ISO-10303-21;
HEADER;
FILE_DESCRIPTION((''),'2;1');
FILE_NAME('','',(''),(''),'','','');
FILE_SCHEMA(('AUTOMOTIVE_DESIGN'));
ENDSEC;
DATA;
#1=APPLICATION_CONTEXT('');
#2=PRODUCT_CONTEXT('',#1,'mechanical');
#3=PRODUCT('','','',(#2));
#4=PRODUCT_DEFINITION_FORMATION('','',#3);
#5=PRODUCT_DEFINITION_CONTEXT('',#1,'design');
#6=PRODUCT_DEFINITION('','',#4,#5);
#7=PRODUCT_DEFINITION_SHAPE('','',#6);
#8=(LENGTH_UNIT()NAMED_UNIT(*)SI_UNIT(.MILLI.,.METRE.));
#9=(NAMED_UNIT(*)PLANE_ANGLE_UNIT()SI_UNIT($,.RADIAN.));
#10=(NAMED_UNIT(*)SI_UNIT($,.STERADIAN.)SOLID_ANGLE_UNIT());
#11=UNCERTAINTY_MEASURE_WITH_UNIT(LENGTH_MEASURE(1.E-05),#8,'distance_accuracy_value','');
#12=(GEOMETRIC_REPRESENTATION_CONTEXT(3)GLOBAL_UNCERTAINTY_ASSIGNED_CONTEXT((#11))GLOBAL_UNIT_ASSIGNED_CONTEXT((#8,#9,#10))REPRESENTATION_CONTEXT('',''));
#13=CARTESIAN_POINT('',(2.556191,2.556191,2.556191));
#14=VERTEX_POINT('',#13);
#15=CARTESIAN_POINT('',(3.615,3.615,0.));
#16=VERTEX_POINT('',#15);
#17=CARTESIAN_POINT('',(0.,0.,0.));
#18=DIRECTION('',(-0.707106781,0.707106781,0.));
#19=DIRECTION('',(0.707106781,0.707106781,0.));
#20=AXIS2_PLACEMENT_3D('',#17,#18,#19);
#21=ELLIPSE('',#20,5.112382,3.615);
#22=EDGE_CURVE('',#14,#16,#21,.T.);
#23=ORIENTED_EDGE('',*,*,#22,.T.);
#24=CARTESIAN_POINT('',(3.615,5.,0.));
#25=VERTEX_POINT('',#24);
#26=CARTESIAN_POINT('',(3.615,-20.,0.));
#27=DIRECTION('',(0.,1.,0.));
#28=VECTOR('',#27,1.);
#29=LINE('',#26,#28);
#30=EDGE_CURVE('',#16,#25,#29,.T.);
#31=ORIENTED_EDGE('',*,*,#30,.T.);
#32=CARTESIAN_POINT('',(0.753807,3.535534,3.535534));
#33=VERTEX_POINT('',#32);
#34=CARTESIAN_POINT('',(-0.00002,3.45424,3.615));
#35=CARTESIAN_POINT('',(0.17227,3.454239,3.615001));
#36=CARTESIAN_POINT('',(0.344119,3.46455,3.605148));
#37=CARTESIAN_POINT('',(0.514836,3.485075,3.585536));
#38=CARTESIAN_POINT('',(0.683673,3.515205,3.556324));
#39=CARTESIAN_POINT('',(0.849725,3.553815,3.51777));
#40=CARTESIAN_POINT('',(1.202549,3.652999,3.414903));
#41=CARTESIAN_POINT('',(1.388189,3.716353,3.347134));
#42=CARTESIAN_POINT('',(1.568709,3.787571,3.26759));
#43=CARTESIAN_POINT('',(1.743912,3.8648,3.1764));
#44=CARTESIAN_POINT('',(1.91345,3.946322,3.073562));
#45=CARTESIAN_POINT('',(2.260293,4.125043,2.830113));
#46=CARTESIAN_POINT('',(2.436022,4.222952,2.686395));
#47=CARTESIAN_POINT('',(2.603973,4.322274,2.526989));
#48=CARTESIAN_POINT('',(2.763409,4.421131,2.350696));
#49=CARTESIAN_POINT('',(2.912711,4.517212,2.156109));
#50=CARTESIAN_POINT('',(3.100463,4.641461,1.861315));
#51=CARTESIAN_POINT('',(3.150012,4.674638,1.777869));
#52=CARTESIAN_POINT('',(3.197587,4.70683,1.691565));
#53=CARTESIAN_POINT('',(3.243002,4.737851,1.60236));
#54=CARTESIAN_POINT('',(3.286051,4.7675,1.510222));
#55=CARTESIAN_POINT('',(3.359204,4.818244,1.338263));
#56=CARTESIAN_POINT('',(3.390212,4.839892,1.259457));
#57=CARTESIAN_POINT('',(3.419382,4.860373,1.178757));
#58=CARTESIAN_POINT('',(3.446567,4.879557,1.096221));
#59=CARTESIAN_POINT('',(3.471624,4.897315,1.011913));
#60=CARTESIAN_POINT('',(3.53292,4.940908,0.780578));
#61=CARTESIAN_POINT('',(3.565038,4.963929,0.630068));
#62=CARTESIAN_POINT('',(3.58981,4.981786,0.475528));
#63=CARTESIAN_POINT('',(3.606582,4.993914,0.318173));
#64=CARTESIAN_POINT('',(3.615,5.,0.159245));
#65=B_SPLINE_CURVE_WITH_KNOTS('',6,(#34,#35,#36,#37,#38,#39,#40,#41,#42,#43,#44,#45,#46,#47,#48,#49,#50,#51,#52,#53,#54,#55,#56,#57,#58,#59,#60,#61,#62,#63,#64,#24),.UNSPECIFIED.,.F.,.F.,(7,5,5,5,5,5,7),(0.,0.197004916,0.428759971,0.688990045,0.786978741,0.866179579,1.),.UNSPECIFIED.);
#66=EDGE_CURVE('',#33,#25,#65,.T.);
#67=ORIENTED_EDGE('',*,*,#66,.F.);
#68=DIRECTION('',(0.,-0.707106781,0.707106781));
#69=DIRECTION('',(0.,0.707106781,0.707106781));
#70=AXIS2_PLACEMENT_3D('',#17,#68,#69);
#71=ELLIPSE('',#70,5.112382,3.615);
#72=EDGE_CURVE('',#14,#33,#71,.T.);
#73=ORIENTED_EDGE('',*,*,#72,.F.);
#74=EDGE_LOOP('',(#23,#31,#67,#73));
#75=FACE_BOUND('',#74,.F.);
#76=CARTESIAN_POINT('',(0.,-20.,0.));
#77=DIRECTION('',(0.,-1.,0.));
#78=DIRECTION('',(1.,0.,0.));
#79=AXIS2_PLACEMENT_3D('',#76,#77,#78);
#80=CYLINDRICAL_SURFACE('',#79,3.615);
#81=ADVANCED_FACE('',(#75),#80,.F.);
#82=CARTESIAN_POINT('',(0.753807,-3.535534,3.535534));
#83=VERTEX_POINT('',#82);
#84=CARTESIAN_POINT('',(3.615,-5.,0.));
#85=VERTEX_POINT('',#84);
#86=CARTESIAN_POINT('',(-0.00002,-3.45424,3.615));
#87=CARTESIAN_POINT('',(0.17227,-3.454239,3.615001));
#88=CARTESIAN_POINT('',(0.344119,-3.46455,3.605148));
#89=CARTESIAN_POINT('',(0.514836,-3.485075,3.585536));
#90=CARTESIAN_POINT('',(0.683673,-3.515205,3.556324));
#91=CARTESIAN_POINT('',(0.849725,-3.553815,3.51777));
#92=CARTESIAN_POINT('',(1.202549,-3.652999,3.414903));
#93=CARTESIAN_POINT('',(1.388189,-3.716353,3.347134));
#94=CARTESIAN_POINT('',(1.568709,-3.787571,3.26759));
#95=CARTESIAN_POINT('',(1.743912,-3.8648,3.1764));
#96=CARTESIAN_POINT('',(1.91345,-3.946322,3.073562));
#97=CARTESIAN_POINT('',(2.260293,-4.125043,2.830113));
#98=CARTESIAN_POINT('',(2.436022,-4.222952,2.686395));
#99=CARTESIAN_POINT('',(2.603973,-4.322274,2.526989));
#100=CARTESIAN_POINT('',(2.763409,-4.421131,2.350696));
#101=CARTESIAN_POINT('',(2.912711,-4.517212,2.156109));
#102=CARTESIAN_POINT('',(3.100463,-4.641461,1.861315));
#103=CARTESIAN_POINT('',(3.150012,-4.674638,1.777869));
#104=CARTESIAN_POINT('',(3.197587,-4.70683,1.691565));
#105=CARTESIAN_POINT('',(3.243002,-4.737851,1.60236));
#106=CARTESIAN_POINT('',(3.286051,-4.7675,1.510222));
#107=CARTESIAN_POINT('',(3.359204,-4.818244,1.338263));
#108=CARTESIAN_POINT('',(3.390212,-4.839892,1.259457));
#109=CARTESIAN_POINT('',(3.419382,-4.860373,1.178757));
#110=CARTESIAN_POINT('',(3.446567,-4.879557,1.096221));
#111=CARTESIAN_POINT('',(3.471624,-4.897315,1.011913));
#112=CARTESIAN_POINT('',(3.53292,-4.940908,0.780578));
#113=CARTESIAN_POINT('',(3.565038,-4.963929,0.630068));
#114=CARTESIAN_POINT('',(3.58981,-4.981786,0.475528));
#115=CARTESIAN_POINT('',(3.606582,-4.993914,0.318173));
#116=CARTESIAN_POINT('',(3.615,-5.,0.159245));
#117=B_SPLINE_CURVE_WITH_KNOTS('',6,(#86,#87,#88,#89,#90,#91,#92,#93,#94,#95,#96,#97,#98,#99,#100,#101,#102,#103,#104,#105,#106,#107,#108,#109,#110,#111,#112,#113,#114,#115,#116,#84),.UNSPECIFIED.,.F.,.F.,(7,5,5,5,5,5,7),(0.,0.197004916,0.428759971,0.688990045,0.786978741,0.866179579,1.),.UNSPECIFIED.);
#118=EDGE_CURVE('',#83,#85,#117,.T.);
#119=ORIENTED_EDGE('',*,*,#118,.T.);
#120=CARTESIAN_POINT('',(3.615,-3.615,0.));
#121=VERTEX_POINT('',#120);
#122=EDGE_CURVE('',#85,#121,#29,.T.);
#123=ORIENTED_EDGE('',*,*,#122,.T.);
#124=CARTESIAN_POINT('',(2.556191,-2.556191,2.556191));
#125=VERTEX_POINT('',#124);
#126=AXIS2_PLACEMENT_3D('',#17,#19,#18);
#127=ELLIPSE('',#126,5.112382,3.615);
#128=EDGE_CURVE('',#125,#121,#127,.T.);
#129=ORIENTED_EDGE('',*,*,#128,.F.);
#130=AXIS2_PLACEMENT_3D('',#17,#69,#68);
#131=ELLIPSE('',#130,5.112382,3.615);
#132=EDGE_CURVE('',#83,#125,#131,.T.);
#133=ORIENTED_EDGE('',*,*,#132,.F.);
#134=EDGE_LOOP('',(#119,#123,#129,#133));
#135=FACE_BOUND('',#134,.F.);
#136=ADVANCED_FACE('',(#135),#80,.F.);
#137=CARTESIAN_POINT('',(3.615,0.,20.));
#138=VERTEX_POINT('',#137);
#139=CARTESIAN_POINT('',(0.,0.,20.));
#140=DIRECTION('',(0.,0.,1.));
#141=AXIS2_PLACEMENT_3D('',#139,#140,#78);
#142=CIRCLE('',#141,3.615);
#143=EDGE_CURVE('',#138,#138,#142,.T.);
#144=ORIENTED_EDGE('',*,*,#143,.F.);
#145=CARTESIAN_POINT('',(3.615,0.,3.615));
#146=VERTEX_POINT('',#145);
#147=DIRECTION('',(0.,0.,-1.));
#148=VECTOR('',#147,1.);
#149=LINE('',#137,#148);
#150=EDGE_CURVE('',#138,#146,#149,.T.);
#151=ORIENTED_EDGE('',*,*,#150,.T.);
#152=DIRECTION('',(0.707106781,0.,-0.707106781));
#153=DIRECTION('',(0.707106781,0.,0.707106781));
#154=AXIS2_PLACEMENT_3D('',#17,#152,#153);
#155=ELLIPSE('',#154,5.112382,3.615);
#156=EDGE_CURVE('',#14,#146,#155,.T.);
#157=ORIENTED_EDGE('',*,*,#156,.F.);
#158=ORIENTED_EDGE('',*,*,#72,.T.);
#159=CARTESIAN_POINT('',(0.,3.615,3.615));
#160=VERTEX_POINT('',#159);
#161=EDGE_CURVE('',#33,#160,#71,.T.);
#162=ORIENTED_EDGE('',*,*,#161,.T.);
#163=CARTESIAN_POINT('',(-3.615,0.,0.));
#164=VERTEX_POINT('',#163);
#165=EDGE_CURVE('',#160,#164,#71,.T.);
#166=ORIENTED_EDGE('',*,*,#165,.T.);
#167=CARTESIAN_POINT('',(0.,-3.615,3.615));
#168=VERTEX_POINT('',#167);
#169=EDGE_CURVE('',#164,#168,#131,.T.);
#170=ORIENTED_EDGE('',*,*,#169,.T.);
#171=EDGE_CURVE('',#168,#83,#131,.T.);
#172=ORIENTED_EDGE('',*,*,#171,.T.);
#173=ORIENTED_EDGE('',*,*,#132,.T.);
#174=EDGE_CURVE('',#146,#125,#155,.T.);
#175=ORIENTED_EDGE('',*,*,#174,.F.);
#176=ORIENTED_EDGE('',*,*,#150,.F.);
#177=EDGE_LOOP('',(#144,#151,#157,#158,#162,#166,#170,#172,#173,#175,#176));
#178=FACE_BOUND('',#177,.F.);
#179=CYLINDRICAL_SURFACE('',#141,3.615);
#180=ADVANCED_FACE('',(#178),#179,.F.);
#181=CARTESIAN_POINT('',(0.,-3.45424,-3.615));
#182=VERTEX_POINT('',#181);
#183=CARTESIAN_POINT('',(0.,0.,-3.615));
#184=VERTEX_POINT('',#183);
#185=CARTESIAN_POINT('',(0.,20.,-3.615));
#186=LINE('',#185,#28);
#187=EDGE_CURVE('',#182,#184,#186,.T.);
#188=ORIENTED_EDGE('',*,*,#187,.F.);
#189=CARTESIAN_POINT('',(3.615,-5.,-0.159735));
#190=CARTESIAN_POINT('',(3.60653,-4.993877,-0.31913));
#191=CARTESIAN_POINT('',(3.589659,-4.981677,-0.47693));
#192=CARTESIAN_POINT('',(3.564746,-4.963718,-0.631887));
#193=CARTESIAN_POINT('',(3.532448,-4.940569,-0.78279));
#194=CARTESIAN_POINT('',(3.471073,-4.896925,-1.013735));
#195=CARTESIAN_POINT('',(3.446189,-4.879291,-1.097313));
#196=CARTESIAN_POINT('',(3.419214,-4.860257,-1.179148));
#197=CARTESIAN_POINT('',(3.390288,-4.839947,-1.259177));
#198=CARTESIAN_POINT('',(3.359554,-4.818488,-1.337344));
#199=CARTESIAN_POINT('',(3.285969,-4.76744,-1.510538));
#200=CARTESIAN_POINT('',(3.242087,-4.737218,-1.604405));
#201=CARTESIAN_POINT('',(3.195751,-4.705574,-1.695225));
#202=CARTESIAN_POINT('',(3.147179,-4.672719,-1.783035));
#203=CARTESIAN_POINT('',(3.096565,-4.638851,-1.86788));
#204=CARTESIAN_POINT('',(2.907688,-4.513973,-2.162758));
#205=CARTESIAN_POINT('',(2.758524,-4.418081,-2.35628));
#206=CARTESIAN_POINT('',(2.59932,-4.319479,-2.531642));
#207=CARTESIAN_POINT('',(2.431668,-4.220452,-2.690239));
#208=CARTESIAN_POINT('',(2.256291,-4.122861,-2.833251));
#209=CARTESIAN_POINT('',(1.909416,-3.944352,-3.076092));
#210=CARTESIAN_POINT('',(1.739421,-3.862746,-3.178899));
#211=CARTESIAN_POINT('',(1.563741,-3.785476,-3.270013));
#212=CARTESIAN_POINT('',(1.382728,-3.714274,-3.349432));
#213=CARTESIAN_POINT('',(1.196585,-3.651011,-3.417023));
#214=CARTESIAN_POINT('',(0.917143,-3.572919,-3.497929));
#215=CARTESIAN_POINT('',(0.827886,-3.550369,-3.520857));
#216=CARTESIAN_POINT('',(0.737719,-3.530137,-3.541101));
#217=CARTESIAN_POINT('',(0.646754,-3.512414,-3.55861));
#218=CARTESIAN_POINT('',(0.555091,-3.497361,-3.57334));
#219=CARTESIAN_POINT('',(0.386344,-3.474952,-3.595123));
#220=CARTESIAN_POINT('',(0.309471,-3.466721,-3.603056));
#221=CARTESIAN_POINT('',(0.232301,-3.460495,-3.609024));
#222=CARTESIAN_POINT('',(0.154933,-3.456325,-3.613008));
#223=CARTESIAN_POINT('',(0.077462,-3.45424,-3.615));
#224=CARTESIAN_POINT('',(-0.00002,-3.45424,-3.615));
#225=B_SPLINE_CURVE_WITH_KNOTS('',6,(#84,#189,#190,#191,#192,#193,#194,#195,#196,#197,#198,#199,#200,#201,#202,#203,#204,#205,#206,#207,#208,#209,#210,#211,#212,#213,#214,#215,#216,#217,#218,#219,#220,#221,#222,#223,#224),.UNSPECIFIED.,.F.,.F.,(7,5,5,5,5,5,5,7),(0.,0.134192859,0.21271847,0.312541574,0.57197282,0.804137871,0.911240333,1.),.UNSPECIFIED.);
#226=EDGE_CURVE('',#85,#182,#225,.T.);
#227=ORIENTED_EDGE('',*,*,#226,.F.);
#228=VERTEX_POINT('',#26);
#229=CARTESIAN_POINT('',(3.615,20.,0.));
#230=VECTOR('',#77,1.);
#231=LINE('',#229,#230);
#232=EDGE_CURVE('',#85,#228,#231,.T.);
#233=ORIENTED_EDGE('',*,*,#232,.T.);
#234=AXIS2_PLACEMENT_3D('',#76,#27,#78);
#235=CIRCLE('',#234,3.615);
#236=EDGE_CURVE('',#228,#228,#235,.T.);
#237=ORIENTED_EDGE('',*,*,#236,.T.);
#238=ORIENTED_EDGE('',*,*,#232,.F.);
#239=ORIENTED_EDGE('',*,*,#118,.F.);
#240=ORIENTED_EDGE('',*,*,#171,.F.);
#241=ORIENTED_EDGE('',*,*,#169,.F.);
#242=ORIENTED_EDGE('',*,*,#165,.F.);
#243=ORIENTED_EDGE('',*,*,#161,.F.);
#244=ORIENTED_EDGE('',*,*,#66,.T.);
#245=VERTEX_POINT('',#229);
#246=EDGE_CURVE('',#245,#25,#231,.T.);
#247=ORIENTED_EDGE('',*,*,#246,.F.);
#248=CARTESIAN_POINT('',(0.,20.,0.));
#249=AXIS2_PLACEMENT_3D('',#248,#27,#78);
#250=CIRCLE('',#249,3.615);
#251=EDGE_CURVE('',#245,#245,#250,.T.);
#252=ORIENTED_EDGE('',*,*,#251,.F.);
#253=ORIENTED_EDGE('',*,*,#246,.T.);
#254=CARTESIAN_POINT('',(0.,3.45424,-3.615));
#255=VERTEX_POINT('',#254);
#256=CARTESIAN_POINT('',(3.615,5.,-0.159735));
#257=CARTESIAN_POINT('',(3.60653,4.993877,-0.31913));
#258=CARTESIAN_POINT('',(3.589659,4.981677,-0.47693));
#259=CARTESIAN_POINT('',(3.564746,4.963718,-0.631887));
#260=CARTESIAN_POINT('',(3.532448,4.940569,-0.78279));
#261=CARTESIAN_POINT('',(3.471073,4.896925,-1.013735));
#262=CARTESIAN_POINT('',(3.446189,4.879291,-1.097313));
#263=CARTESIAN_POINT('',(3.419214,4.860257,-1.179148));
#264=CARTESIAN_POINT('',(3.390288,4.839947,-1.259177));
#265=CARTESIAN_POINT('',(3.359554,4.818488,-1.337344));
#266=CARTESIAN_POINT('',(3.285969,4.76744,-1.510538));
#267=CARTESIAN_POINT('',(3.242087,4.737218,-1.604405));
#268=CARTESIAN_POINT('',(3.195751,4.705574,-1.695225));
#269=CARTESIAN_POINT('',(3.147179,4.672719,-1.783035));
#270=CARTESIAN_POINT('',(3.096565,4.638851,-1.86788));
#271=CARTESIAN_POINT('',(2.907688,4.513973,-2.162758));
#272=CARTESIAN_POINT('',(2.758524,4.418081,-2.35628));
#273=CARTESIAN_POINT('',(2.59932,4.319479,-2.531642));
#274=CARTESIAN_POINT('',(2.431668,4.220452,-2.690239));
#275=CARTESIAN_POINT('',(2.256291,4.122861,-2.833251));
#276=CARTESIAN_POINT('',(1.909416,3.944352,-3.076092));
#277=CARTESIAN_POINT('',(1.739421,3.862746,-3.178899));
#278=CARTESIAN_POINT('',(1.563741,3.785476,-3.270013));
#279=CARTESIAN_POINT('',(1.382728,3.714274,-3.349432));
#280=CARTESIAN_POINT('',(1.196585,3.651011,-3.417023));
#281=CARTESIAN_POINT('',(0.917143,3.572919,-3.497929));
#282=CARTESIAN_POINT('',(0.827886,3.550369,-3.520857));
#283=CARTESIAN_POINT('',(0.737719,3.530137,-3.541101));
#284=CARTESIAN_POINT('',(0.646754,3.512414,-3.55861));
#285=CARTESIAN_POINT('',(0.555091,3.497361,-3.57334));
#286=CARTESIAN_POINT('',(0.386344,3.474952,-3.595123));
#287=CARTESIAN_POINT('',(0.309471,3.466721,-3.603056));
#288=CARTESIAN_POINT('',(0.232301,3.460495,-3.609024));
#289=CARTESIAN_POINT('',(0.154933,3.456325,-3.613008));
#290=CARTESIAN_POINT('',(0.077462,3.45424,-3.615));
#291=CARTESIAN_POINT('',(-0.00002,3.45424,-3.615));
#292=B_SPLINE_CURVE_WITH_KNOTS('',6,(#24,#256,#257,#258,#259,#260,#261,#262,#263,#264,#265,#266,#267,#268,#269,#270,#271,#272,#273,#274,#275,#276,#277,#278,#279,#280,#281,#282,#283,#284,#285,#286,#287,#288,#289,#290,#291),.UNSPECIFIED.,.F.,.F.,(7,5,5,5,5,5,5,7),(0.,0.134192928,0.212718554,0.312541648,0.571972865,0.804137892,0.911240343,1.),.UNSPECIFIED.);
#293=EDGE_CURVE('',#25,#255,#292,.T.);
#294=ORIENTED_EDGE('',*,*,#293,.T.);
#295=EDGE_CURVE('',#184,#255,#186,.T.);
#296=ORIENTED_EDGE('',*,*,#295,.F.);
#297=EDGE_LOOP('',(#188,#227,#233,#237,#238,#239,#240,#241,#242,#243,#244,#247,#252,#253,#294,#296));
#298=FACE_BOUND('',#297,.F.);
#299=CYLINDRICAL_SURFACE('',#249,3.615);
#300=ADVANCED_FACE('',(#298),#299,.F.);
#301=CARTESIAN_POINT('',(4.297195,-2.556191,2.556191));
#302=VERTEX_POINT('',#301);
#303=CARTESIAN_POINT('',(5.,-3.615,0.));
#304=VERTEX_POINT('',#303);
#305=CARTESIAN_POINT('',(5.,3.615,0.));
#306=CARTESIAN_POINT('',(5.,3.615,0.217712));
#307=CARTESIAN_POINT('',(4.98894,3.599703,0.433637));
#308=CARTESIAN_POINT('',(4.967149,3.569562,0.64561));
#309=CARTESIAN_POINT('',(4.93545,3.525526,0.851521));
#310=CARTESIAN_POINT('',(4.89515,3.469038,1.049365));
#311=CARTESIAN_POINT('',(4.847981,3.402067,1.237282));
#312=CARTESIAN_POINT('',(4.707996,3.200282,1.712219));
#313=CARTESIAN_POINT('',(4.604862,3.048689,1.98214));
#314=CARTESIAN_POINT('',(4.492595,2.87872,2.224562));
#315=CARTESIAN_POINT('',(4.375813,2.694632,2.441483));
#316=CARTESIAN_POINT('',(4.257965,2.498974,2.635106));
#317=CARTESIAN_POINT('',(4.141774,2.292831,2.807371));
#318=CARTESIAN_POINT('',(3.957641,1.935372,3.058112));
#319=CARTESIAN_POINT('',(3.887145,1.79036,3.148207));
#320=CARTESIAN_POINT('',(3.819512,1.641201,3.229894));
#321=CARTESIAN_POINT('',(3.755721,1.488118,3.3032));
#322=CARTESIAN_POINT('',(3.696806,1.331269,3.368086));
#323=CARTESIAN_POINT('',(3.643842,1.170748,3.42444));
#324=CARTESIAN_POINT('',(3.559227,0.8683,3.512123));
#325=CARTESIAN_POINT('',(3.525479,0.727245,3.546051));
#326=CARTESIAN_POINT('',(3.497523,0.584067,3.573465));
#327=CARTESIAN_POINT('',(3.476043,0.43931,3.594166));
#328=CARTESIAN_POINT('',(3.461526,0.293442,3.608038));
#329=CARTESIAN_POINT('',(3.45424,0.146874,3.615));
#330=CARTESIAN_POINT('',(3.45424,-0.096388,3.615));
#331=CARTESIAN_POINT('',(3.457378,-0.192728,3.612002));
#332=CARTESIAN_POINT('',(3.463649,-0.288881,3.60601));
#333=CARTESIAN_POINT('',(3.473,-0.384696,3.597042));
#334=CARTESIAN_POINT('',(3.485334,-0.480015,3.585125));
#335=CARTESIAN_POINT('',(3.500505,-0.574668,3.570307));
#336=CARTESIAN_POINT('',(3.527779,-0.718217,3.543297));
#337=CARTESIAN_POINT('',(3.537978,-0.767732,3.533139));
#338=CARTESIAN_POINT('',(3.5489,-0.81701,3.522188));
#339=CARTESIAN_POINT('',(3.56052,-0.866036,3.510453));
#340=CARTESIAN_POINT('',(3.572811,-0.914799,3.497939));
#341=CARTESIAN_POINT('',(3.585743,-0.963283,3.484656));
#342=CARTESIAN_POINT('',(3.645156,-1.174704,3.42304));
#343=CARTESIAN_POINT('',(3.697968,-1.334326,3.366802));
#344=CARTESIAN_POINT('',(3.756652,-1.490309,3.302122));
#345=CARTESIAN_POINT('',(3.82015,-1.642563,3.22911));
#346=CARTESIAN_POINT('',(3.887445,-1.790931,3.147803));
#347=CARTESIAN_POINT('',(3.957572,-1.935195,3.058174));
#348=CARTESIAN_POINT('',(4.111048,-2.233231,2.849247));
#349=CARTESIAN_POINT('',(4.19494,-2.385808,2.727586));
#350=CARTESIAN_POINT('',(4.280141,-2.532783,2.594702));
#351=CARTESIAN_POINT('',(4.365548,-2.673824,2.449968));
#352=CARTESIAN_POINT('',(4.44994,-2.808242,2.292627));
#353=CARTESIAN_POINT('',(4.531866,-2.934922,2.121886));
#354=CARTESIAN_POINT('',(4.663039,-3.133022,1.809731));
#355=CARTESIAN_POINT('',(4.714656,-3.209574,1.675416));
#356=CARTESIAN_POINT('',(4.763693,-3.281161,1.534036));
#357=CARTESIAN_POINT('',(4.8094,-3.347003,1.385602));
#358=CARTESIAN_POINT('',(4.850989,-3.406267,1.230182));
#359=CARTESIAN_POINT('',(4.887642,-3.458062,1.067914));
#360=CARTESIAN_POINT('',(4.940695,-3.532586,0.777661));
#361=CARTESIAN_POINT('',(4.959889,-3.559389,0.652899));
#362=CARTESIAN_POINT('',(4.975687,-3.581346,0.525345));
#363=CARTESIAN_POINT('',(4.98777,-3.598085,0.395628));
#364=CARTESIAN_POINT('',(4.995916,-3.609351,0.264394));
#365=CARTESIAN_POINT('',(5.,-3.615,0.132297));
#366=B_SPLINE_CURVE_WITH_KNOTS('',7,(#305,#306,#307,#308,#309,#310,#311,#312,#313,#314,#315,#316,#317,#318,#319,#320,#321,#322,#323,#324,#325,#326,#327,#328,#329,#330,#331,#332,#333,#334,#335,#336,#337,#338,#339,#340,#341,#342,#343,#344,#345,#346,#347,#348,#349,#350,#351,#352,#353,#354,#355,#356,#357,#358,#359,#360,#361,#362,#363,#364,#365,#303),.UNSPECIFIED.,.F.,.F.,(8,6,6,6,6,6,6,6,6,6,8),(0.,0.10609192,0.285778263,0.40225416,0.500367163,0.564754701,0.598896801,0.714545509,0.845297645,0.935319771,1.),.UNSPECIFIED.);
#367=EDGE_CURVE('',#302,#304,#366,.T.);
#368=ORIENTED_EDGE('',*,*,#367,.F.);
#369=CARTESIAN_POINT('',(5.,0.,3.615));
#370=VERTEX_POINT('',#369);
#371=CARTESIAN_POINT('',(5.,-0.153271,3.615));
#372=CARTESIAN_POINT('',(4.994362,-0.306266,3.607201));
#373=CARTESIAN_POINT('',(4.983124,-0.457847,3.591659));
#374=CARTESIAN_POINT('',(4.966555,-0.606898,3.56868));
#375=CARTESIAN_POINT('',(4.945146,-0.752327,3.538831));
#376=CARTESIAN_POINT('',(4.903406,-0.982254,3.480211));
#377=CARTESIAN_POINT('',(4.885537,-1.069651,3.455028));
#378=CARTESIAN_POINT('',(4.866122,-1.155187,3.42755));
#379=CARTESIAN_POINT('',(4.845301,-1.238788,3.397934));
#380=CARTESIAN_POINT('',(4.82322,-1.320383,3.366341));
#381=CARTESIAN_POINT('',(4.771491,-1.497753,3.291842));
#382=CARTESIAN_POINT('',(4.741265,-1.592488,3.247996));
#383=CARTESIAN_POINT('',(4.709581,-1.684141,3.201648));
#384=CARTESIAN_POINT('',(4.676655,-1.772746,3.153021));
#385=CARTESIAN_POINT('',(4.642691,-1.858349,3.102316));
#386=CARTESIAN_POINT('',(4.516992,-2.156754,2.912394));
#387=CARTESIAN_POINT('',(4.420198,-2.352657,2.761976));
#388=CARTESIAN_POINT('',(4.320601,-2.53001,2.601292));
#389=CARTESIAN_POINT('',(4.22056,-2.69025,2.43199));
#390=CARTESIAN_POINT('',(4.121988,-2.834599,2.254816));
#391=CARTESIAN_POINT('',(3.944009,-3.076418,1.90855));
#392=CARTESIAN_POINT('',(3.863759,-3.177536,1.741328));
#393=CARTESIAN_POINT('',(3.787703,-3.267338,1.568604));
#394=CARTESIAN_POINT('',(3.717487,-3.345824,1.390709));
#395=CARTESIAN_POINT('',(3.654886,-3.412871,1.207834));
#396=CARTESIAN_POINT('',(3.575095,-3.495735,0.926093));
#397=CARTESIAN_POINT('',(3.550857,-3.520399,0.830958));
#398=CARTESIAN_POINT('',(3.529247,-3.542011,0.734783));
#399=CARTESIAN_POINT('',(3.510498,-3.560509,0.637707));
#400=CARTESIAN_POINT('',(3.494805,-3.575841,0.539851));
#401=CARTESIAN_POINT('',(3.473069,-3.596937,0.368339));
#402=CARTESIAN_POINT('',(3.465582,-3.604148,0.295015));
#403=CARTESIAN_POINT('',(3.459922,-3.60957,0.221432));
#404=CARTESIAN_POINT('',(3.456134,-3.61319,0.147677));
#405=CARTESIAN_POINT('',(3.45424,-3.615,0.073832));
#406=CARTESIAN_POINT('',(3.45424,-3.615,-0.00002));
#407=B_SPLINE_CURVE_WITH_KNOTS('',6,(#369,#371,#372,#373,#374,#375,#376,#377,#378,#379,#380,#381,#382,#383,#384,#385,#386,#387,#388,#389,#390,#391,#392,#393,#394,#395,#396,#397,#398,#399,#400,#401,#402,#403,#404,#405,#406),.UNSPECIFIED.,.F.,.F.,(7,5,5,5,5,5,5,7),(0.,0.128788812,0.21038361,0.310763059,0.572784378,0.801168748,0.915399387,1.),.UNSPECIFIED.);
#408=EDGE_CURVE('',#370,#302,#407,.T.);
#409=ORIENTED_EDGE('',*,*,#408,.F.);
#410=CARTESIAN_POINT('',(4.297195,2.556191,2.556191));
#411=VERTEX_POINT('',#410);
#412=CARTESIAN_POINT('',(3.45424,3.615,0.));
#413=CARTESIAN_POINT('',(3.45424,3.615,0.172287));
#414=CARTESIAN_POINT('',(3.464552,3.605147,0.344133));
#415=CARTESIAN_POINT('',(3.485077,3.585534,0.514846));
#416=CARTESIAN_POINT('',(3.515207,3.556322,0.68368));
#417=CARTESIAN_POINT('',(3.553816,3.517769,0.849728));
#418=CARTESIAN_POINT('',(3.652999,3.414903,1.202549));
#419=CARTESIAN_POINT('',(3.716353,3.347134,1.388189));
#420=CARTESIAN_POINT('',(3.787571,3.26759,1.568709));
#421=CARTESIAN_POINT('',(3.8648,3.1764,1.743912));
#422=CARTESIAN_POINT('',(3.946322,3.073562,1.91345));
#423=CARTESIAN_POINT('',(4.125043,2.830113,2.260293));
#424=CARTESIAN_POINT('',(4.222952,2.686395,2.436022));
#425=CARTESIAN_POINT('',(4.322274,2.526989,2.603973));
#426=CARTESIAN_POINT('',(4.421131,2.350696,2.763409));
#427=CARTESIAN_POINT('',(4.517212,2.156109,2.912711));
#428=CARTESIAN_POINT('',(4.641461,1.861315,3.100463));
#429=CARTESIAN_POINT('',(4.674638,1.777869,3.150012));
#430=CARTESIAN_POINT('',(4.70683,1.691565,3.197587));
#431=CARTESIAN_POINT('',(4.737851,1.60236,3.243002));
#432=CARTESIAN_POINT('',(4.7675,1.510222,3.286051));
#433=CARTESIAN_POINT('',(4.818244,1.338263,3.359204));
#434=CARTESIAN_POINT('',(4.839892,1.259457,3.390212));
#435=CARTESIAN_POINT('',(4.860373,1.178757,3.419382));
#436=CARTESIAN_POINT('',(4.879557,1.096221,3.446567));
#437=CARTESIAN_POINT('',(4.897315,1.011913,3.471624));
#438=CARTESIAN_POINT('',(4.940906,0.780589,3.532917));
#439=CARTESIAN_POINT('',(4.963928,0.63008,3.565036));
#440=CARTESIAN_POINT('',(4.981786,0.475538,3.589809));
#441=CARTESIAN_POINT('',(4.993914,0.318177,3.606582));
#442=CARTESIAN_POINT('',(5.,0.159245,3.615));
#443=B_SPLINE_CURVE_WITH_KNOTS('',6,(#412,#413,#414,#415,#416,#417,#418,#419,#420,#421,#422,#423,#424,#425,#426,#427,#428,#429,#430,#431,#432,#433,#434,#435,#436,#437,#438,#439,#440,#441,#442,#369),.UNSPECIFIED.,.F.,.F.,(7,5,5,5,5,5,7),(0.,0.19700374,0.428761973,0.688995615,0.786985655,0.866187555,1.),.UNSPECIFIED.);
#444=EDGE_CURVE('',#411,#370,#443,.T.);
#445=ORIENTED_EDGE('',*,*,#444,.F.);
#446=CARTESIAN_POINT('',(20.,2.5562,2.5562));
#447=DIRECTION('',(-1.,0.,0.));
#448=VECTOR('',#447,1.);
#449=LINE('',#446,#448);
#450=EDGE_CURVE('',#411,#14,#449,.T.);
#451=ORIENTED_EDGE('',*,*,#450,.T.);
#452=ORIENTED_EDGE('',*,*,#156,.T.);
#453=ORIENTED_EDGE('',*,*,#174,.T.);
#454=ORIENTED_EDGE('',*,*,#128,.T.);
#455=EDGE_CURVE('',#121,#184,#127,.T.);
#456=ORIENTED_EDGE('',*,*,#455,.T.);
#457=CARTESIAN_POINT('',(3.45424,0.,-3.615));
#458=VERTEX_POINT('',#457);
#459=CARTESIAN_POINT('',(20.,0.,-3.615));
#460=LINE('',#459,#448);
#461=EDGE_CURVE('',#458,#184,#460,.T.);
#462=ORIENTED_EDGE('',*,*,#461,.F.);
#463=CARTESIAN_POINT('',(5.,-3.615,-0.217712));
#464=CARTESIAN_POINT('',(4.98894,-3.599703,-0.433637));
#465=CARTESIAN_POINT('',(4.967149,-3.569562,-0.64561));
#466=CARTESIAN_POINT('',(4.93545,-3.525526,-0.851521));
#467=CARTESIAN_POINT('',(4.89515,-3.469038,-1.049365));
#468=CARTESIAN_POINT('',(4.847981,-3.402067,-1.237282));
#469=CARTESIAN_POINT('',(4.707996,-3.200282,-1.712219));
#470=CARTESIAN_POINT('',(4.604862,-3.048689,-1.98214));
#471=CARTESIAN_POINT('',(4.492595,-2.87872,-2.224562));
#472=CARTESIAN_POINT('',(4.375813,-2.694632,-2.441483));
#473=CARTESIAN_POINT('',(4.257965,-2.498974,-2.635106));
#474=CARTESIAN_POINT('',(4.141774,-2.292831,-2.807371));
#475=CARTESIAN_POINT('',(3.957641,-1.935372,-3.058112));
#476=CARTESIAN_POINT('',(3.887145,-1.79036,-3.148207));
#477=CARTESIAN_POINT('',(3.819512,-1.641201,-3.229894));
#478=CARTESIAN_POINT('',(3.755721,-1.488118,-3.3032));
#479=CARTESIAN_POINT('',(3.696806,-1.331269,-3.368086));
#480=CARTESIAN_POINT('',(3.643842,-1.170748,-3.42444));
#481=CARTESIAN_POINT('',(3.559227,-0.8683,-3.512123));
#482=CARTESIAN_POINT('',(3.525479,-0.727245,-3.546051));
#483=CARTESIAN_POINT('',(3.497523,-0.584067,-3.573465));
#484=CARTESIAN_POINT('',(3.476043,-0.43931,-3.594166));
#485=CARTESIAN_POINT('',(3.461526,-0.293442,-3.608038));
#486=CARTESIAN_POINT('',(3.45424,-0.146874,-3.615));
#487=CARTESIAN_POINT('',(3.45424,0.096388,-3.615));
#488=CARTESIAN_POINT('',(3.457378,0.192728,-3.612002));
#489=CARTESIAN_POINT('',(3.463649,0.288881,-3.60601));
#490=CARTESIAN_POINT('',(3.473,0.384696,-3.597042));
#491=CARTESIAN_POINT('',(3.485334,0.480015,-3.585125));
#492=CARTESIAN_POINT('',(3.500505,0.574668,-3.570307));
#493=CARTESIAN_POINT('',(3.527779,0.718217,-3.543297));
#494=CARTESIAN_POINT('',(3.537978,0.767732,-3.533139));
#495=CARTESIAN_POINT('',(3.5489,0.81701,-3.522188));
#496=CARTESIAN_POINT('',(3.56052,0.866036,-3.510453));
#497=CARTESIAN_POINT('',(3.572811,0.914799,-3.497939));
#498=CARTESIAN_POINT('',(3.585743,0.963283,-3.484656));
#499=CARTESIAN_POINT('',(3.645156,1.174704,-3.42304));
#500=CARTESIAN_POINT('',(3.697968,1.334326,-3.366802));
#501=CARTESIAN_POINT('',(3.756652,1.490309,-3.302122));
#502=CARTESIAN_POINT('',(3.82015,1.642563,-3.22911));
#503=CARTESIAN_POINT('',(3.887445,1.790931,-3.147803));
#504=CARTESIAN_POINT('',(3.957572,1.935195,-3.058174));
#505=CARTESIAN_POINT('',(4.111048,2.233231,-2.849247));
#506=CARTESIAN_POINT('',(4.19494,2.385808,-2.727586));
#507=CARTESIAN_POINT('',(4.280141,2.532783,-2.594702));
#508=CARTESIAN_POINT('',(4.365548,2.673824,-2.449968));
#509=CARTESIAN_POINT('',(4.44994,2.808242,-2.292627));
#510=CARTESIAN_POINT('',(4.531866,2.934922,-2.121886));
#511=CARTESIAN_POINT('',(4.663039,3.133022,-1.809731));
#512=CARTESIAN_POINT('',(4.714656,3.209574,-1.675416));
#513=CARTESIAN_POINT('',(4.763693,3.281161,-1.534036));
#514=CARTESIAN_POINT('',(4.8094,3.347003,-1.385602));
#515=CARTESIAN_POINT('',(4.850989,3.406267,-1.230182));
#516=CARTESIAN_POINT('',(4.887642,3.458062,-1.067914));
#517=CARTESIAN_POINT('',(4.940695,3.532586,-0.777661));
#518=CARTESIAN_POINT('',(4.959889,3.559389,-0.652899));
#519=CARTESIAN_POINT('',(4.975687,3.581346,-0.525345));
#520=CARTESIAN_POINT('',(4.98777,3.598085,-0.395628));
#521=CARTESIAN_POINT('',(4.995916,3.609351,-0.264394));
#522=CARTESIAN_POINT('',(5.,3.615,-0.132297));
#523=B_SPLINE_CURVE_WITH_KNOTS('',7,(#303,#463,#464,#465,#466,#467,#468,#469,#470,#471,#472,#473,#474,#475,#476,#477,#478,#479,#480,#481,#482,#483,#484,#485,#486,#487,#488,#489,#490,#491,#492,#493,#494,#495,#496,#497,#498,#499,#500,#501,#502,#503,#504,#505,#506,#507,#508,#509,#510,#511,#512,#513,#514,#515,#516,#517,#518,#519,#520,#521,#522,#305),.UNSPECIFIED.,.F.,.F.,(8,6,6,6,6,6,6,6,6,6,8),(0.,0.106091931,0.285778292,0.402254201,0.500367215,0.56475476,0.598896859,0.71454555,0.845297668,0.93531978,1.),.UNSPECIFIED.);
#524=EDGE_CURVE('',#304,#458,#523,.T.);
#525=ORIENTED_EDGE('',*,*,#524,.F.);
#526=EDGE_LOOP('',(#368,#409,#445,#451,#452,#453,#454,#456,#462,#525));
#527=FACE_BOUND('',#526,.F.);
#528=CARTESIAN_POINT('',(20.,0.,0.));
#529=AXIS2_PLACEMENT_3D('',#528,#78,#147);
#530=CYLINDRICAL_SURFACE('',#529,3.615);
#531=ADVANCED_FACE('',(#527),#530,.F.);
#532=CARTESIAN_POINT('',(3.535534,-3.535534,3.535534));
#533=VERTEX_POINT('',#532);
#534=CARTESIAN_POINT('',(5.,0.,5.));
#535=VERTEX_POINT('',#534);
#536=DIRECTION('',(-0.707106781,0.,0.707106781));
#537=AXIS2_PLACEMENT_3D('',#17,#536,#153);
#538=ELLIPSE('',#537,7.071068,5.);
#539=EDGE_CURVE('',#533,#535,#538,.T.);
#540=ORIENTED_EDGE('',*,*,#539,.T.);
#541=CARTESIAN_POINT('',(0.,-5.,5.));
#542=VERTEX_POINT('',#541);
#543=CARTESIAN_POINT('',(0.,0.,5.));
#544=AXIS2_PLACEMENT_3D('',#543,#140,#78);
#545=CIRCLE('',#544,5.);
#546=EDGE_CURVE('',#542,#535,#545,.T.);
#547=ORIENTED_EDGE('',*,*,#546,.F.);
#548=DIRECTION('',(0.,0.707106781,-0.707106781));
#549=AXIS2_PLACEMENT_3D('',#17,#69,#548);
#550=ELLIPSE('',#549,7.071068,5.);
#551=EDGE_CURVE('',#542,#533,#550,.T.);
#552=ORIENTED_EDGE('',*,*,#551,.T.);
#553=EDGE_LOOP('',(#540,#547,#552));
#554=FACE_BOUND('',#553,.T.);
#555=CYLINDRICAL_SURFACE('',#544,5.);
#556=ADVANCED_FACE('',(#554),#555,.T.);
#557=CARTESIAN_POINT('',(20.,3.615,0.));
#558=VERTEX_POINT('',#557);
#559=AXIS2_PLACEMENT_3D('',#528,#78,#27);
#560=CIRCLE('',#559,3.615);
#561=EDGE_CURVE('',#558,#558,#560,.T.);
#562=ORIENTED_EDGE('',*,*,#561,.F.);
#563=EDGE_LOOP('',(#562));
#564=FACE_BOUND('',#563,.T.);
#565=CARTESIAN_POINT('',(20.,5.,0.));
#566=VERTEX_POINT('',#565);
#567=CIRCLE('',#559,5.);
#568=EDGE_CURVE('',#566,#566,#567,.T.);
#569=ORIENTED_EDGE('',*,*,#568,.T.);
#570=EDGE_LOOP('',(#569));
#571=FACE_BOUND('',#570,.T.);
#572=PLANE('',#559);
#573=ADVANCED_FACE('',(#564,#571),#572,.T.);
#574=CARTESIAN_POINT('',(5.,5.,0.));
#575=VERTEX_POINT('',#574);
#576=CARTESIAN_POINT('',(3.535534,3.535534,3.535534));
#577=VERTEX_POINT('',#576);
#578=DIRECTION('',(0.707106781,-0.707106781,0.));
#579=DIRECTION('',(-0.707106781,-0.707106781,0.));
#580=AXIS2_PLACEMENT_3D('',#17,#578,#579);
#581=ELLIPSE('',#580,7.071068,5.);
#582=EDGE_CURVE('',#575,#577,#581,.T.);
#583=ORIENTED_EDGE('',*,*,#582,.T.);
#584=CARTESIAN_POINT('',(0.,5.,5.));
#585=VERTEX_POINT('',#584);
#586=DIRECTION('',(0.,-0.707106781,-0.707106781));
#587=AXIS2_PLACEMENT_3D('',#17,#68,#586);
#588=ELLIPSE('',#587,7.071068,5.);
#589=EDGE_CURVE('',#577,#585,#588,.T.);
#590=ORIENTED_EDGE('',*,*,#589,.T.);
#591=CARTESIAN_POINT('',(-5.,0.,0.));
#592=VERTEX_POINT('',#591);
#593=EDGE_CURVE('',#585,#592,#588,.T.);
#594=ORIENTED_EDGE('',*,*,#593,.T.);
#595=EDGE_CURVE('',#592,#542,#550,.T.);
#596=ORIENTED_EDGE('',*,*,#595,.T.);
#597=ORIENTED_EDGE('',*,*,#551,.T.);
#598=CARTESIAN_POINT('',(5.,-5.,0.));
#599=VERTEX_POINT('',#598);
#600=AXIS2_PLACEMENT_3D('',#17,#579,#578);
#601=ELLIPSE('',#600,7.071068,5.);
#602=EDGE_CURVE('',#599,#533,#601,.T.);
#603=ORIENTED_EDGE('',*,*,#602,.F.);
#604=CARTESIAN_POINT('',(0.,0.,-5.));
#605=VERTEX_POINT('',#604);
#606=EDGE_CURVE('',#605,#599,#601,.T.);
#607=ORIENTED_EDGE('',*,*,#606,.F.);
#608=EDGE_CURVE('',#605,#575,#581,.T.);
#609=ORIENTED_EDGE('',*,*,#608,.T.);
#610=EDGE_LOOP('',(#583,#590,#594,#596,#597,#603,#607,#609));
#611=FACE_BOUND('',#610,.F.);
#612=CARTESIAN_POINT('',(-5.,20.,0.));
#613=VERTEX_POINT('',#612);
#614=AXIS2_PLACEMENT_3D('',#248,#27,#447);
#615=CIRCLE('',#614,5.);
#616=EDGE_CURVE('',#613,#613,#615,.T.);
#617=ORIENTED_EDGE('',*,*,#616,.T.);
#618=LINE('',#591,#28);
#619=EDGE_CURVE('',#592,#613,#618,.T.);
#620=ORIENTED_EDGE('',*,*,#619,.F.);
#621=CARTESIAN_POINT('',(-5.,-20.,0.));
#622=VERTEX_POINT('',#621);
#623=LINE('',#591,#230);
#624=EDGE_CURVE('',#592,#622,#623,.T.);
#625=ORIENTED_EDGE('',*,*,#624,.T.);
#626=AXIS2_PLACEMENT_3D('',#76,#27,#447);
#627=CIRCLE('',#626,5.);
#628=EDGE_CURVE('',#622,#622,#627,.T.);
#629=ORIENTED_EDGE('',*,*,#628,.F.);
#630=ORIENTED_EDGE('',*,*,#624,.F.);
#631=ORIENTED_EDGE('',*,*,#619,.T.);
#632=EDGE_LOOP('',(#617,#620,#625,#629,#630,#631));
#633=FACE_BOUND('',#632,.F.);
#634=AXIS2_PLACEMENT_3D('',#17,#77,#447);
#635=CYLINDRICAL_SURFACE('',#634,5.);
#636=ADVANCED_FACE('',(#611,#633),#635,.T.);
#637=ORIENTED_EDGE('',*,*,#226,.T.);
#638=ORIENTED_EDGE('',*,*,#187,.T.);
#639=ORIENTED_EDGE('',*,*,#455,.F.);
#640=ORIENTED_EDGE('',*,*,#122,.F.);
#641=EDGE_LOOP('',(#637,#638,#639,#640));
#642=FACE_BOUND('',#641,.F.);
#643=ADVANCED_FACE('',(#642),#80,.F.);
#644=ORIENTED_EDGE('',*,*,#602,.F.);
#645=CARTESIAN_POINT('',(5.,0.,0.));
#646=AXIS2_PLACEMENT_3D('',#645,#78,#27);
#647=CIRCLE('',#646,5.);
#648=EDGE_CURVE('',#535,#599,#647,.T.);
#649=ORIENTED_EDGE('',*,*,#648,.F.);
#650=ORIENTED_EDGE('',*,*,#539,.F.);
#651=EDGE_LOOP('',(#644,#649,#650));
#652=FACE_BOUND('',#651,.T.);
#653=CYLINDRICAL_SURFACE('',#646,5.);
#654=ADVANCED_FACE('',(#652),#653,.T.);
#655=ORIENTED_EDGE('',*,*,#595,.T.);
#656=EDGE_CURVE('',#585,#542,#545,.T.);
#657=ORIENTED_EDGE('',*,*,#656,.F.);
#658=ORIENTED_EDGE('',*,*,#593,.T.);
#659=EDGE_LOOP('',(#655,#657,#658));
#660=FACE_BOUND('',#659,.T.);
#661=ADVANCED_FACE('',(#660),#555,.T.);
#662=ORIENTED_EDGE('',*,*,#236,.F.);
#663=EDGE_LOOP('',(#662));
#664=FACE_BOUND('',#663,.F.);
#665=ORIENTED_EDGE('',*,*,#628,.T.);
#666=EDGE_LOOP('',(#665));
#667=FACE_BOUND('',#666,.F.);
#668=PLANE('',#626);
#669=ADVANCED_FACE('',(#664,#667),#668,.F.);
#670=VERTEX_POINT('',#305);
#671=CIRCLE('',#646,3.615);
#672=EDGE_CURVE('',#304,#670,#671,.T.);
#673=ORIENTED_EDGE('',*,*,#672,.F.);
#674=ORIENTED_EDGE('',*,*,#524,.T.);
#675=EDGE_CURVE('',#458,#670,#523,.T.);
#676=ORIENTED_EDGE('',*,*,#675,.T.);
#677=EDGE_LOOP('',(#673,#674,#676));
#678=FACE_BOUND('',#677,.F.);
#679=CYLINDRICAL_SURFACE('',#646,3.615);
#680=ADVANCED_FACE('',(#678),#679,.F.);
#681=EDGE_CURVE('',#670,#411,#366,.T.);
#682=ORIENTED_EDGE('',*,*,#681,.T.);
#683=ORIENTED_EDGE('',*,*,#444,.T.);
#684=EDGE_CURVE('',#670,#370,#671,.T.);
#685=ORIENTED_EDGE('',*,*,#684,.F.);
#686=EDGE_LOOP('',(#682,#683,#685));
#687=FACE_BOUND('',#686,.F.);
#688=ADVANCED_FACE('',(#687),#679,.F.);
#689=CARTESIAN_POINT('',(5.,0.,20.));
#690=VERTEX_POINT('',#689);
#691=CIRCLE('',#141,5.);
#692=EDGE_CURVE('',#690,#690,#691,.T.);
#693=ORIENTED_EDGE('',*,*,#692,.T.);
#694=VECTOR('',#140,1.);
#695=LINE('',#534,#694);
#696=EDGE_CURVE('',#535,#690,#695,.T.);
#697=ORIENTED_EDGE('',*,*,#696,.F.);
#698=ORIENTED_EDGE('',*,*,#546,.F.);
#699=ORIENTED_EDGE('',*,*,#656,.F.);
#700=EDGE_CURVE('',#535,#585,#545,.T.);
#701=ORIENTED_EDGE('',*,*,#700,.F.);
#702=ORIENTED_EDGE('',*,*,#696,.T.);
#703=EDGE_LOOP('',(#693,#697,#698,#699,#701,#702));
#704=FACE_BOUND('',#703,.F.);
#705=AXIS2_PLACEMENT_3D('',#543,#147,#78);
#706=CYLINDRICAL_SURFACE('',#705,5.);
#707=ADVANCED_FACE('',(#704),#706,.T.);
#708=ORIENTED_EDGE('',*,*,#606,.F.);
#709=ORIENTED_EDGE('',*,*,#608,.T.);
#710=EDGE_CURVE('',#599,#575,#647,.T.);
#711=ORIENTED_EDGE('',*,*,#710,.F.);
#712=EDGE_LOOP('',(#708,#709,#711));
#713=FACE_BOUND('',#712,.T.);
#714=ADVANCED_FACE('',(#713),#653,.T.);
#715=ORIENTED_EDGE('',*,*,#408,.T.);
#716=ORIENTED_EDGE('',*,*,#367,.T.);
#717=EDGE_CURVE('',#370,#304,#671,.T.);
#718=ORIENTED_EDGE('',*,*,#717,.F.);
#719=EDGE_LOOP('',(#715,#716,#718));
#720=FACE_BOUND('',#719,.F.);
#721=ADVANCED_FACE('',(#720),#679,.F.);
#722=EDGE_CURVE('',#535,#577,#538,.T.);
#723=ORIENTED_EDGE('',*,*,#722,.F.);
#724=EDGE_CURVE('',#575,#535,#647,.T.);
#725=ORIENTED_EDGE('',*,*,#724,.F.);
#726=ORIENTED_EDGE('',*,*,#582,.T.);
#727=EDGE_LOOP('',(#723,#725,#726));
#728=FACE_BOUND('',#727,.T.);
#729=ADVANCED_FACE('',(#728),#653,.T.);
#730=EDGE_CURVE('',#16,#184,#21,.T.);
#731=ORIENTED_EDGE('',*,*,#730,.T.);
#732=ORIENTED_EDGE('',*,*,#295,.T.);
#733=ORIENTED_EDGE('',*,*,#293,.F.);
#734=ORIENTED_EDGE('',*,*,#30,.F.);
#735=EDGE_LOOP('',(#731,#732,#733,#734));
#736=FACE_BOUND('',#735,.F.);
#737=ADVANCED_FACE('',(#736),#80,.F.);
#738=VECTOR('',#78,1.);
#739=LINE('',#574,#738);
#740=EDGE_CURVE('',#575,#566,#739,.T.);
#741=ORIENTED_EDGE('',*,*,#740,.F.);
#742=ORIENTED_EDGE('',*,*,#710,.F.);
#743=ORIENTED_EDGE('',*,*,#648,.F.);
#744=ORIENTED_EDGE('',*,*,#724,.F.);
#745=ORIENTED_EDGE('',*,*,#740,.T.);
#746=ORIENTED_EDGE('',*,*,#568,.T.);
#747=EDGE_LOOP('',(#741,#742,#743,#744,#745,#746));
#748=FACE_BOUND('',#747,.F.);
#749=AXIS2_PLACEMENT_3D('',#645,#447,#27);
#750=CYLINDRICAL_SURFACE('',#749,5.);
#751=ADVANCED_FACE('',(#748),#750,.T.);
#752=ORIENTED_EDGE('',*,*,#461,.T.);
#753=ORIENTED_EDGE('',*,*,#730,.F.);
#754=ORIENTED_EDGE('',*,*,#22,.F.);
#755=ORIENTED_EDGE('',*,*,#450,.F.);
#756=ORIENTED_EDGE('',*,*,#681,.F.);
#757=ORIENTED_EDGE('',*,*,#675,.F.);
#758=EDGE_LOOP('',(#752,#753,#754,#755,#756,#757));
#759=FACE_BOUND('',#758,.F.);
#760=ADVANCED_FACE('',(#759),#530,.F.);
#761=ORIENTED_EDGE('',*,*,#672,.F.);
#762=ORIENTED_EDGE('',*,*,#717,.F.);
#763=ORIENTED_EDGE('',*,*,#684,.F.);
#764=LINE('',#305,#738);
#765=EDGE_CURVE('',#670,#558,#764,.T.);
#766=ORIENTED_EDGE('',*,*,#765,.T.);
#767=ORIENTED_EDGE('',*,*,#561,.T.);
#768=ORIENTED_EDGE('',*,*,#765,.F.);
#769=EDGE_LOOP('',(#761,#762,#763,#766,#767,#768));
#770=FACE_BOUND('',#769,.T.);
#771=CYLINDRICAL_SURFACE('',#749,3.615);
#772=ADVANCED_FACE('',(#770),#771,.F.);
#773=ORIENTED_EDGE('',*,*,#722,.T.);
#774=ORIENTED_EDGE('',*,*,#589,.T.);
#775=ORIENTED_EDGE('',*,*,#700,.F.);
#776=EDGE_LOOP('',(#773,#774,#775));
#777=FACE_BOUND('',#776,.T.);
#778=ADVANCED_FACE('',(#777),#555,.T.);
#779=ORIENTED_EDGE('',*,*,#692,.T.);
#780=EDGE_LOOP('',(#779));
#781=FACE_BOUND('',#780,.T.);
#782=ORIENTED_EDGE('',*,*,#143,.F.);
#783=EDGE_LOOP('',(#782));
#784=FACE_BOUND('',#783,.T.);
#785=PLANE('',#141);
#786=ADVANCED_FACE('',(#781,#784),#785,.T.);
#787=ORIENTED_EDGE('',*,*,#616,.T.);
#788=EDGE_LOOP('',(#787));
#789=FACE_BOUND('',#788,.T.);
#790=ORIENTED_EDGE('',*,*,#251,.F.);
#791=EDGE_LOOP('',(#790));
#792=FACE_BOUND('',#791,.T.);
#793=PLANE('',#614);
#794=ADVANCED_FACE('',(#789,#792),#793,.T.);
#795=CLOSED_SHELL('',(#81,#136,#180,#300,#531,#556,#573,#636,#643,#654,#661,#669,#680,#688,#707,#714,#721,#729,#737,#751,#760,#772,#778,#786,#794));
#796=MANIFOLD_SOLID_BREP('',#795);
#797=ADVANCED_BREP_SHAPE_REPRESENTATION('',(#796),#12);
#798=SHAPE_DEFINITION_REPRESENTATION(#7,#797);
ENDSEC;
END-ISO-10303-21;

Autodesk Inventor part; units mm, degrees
ref_plane "XZ Plane" through (0, 0, 0) normal (0, 1, 0) x (-1, 0, 0)
sketch "Sketch1" plane through (0, 0, 0) normal (0, 1, 0) x (-1, 0, 0)
  circle A0 centre (0, 0) radius 3.575
  circle A1 centre (0, 0) radius 5
  dimension "d0" = 7.15
  dimension "d1" = 10
extrude "Extrusion1" add sketch "Sketch1" along normal mid plane 40
ref_plane "Work Plane1" through (0, 0, 5) normal (0, 0, 1) x (1, 0, 0)
sketch "Sketch2" plane through (0, 0, 5) normal (0, 0, 1) x (1, 0, 0)
  circle A0 centre (0, 0) radius 3.575
  circle A1 centre (0, 0) radius 5
  line L0 (5, 20) -> (-5, 20) projected
  dimension "d4" = 7.15
  dimension "d5" = 10
  dimension "d22" = 0
extrude "Extrusion2" add sketch "Sketch2" along normal blind 15 and the other way blind 5
sketch "Sketch3" plane through (0, 0, 20) normal (0, 0, 1) x (1, 0, 0)
  circle A0 centre (0, 0) radius 3.575
extrude "Extrusion3" cut sketch "Sketch3" against normal up to surface
sketch "Sketch4" plane through (0, 20, 0) normal (0, 1, 0) x (1, 0, 0)
  circle A0 centre (0, 0) radius 3.615
  dimension "d13" = 7.23
extrude "Extrusion4" cut sketch "Sketch4" against normal through all
ref_plane "Work Plane3" through (5, 0, 0) normal (1, 0, 0) x (0, 1, 0)
sketch "Sketch6" plane through (5, 0, 0) normal (1, 0, 0) x (0, 1, 0)
  circle A0 centre (0, 0) radius 3.615
  circle A1 centre (0, 0) radius 5
  dimension "d23" = 7.23
  dimension "d24" = 10
extrude "Extrusion6" add sketch "Sketch6" along normal blind 15 and the other way blind 5
sketch "Sketch7" plane through (0, 0, 20) normal (0, 0, 1) x (1, 0, 0)
  circle A0 centre (0, 0) radius 3.615
  dimension "d33" = 7.23
extrude "Extrusion7" cut sketch "Sketch7" against normal up to surface
sketch "Sketch8" plane through (0, -20, 0) normal (0, -1, 0) x (1, 0, 0)
  circle A0 centre (0, 0) radius 3.615
extrude "Extrusion8" cut sketch "Sketch8" against normal through all
sketch "Sketch9" plane through (20, 0, 0) normal (1, 0, 0) x (0, 0, -1)
  line L0 (0, 0) -> (-2.5562, 2.5562) projected
  circle A0 centre (0, 0) radius 3.615
  dimension "d34" = 7.23
extrude "Extrusion9" cut sketch "Sketch9" against normal up to surface
sketch "Sketch5" plane through (0, 0, -5) normal (0, 0, 1) x (1, 0, 0)
  line L0 (5, 15) -> (-5, 15) projected
  line L1 (-5, -15) -> (5, -15) projected
  line L2 (2, 15) -> (-2, 15)
  line L3 (-2, 15) -> (-2, -15)
  line L4 (-2, -15) -> (2, -15)
  line L5 (2, -15) -> (2, 15)
  point P0 (0, 0)
  dimension "d16" = 4
  dimension "d17" = 2
properties part number "T-joint-UP"
